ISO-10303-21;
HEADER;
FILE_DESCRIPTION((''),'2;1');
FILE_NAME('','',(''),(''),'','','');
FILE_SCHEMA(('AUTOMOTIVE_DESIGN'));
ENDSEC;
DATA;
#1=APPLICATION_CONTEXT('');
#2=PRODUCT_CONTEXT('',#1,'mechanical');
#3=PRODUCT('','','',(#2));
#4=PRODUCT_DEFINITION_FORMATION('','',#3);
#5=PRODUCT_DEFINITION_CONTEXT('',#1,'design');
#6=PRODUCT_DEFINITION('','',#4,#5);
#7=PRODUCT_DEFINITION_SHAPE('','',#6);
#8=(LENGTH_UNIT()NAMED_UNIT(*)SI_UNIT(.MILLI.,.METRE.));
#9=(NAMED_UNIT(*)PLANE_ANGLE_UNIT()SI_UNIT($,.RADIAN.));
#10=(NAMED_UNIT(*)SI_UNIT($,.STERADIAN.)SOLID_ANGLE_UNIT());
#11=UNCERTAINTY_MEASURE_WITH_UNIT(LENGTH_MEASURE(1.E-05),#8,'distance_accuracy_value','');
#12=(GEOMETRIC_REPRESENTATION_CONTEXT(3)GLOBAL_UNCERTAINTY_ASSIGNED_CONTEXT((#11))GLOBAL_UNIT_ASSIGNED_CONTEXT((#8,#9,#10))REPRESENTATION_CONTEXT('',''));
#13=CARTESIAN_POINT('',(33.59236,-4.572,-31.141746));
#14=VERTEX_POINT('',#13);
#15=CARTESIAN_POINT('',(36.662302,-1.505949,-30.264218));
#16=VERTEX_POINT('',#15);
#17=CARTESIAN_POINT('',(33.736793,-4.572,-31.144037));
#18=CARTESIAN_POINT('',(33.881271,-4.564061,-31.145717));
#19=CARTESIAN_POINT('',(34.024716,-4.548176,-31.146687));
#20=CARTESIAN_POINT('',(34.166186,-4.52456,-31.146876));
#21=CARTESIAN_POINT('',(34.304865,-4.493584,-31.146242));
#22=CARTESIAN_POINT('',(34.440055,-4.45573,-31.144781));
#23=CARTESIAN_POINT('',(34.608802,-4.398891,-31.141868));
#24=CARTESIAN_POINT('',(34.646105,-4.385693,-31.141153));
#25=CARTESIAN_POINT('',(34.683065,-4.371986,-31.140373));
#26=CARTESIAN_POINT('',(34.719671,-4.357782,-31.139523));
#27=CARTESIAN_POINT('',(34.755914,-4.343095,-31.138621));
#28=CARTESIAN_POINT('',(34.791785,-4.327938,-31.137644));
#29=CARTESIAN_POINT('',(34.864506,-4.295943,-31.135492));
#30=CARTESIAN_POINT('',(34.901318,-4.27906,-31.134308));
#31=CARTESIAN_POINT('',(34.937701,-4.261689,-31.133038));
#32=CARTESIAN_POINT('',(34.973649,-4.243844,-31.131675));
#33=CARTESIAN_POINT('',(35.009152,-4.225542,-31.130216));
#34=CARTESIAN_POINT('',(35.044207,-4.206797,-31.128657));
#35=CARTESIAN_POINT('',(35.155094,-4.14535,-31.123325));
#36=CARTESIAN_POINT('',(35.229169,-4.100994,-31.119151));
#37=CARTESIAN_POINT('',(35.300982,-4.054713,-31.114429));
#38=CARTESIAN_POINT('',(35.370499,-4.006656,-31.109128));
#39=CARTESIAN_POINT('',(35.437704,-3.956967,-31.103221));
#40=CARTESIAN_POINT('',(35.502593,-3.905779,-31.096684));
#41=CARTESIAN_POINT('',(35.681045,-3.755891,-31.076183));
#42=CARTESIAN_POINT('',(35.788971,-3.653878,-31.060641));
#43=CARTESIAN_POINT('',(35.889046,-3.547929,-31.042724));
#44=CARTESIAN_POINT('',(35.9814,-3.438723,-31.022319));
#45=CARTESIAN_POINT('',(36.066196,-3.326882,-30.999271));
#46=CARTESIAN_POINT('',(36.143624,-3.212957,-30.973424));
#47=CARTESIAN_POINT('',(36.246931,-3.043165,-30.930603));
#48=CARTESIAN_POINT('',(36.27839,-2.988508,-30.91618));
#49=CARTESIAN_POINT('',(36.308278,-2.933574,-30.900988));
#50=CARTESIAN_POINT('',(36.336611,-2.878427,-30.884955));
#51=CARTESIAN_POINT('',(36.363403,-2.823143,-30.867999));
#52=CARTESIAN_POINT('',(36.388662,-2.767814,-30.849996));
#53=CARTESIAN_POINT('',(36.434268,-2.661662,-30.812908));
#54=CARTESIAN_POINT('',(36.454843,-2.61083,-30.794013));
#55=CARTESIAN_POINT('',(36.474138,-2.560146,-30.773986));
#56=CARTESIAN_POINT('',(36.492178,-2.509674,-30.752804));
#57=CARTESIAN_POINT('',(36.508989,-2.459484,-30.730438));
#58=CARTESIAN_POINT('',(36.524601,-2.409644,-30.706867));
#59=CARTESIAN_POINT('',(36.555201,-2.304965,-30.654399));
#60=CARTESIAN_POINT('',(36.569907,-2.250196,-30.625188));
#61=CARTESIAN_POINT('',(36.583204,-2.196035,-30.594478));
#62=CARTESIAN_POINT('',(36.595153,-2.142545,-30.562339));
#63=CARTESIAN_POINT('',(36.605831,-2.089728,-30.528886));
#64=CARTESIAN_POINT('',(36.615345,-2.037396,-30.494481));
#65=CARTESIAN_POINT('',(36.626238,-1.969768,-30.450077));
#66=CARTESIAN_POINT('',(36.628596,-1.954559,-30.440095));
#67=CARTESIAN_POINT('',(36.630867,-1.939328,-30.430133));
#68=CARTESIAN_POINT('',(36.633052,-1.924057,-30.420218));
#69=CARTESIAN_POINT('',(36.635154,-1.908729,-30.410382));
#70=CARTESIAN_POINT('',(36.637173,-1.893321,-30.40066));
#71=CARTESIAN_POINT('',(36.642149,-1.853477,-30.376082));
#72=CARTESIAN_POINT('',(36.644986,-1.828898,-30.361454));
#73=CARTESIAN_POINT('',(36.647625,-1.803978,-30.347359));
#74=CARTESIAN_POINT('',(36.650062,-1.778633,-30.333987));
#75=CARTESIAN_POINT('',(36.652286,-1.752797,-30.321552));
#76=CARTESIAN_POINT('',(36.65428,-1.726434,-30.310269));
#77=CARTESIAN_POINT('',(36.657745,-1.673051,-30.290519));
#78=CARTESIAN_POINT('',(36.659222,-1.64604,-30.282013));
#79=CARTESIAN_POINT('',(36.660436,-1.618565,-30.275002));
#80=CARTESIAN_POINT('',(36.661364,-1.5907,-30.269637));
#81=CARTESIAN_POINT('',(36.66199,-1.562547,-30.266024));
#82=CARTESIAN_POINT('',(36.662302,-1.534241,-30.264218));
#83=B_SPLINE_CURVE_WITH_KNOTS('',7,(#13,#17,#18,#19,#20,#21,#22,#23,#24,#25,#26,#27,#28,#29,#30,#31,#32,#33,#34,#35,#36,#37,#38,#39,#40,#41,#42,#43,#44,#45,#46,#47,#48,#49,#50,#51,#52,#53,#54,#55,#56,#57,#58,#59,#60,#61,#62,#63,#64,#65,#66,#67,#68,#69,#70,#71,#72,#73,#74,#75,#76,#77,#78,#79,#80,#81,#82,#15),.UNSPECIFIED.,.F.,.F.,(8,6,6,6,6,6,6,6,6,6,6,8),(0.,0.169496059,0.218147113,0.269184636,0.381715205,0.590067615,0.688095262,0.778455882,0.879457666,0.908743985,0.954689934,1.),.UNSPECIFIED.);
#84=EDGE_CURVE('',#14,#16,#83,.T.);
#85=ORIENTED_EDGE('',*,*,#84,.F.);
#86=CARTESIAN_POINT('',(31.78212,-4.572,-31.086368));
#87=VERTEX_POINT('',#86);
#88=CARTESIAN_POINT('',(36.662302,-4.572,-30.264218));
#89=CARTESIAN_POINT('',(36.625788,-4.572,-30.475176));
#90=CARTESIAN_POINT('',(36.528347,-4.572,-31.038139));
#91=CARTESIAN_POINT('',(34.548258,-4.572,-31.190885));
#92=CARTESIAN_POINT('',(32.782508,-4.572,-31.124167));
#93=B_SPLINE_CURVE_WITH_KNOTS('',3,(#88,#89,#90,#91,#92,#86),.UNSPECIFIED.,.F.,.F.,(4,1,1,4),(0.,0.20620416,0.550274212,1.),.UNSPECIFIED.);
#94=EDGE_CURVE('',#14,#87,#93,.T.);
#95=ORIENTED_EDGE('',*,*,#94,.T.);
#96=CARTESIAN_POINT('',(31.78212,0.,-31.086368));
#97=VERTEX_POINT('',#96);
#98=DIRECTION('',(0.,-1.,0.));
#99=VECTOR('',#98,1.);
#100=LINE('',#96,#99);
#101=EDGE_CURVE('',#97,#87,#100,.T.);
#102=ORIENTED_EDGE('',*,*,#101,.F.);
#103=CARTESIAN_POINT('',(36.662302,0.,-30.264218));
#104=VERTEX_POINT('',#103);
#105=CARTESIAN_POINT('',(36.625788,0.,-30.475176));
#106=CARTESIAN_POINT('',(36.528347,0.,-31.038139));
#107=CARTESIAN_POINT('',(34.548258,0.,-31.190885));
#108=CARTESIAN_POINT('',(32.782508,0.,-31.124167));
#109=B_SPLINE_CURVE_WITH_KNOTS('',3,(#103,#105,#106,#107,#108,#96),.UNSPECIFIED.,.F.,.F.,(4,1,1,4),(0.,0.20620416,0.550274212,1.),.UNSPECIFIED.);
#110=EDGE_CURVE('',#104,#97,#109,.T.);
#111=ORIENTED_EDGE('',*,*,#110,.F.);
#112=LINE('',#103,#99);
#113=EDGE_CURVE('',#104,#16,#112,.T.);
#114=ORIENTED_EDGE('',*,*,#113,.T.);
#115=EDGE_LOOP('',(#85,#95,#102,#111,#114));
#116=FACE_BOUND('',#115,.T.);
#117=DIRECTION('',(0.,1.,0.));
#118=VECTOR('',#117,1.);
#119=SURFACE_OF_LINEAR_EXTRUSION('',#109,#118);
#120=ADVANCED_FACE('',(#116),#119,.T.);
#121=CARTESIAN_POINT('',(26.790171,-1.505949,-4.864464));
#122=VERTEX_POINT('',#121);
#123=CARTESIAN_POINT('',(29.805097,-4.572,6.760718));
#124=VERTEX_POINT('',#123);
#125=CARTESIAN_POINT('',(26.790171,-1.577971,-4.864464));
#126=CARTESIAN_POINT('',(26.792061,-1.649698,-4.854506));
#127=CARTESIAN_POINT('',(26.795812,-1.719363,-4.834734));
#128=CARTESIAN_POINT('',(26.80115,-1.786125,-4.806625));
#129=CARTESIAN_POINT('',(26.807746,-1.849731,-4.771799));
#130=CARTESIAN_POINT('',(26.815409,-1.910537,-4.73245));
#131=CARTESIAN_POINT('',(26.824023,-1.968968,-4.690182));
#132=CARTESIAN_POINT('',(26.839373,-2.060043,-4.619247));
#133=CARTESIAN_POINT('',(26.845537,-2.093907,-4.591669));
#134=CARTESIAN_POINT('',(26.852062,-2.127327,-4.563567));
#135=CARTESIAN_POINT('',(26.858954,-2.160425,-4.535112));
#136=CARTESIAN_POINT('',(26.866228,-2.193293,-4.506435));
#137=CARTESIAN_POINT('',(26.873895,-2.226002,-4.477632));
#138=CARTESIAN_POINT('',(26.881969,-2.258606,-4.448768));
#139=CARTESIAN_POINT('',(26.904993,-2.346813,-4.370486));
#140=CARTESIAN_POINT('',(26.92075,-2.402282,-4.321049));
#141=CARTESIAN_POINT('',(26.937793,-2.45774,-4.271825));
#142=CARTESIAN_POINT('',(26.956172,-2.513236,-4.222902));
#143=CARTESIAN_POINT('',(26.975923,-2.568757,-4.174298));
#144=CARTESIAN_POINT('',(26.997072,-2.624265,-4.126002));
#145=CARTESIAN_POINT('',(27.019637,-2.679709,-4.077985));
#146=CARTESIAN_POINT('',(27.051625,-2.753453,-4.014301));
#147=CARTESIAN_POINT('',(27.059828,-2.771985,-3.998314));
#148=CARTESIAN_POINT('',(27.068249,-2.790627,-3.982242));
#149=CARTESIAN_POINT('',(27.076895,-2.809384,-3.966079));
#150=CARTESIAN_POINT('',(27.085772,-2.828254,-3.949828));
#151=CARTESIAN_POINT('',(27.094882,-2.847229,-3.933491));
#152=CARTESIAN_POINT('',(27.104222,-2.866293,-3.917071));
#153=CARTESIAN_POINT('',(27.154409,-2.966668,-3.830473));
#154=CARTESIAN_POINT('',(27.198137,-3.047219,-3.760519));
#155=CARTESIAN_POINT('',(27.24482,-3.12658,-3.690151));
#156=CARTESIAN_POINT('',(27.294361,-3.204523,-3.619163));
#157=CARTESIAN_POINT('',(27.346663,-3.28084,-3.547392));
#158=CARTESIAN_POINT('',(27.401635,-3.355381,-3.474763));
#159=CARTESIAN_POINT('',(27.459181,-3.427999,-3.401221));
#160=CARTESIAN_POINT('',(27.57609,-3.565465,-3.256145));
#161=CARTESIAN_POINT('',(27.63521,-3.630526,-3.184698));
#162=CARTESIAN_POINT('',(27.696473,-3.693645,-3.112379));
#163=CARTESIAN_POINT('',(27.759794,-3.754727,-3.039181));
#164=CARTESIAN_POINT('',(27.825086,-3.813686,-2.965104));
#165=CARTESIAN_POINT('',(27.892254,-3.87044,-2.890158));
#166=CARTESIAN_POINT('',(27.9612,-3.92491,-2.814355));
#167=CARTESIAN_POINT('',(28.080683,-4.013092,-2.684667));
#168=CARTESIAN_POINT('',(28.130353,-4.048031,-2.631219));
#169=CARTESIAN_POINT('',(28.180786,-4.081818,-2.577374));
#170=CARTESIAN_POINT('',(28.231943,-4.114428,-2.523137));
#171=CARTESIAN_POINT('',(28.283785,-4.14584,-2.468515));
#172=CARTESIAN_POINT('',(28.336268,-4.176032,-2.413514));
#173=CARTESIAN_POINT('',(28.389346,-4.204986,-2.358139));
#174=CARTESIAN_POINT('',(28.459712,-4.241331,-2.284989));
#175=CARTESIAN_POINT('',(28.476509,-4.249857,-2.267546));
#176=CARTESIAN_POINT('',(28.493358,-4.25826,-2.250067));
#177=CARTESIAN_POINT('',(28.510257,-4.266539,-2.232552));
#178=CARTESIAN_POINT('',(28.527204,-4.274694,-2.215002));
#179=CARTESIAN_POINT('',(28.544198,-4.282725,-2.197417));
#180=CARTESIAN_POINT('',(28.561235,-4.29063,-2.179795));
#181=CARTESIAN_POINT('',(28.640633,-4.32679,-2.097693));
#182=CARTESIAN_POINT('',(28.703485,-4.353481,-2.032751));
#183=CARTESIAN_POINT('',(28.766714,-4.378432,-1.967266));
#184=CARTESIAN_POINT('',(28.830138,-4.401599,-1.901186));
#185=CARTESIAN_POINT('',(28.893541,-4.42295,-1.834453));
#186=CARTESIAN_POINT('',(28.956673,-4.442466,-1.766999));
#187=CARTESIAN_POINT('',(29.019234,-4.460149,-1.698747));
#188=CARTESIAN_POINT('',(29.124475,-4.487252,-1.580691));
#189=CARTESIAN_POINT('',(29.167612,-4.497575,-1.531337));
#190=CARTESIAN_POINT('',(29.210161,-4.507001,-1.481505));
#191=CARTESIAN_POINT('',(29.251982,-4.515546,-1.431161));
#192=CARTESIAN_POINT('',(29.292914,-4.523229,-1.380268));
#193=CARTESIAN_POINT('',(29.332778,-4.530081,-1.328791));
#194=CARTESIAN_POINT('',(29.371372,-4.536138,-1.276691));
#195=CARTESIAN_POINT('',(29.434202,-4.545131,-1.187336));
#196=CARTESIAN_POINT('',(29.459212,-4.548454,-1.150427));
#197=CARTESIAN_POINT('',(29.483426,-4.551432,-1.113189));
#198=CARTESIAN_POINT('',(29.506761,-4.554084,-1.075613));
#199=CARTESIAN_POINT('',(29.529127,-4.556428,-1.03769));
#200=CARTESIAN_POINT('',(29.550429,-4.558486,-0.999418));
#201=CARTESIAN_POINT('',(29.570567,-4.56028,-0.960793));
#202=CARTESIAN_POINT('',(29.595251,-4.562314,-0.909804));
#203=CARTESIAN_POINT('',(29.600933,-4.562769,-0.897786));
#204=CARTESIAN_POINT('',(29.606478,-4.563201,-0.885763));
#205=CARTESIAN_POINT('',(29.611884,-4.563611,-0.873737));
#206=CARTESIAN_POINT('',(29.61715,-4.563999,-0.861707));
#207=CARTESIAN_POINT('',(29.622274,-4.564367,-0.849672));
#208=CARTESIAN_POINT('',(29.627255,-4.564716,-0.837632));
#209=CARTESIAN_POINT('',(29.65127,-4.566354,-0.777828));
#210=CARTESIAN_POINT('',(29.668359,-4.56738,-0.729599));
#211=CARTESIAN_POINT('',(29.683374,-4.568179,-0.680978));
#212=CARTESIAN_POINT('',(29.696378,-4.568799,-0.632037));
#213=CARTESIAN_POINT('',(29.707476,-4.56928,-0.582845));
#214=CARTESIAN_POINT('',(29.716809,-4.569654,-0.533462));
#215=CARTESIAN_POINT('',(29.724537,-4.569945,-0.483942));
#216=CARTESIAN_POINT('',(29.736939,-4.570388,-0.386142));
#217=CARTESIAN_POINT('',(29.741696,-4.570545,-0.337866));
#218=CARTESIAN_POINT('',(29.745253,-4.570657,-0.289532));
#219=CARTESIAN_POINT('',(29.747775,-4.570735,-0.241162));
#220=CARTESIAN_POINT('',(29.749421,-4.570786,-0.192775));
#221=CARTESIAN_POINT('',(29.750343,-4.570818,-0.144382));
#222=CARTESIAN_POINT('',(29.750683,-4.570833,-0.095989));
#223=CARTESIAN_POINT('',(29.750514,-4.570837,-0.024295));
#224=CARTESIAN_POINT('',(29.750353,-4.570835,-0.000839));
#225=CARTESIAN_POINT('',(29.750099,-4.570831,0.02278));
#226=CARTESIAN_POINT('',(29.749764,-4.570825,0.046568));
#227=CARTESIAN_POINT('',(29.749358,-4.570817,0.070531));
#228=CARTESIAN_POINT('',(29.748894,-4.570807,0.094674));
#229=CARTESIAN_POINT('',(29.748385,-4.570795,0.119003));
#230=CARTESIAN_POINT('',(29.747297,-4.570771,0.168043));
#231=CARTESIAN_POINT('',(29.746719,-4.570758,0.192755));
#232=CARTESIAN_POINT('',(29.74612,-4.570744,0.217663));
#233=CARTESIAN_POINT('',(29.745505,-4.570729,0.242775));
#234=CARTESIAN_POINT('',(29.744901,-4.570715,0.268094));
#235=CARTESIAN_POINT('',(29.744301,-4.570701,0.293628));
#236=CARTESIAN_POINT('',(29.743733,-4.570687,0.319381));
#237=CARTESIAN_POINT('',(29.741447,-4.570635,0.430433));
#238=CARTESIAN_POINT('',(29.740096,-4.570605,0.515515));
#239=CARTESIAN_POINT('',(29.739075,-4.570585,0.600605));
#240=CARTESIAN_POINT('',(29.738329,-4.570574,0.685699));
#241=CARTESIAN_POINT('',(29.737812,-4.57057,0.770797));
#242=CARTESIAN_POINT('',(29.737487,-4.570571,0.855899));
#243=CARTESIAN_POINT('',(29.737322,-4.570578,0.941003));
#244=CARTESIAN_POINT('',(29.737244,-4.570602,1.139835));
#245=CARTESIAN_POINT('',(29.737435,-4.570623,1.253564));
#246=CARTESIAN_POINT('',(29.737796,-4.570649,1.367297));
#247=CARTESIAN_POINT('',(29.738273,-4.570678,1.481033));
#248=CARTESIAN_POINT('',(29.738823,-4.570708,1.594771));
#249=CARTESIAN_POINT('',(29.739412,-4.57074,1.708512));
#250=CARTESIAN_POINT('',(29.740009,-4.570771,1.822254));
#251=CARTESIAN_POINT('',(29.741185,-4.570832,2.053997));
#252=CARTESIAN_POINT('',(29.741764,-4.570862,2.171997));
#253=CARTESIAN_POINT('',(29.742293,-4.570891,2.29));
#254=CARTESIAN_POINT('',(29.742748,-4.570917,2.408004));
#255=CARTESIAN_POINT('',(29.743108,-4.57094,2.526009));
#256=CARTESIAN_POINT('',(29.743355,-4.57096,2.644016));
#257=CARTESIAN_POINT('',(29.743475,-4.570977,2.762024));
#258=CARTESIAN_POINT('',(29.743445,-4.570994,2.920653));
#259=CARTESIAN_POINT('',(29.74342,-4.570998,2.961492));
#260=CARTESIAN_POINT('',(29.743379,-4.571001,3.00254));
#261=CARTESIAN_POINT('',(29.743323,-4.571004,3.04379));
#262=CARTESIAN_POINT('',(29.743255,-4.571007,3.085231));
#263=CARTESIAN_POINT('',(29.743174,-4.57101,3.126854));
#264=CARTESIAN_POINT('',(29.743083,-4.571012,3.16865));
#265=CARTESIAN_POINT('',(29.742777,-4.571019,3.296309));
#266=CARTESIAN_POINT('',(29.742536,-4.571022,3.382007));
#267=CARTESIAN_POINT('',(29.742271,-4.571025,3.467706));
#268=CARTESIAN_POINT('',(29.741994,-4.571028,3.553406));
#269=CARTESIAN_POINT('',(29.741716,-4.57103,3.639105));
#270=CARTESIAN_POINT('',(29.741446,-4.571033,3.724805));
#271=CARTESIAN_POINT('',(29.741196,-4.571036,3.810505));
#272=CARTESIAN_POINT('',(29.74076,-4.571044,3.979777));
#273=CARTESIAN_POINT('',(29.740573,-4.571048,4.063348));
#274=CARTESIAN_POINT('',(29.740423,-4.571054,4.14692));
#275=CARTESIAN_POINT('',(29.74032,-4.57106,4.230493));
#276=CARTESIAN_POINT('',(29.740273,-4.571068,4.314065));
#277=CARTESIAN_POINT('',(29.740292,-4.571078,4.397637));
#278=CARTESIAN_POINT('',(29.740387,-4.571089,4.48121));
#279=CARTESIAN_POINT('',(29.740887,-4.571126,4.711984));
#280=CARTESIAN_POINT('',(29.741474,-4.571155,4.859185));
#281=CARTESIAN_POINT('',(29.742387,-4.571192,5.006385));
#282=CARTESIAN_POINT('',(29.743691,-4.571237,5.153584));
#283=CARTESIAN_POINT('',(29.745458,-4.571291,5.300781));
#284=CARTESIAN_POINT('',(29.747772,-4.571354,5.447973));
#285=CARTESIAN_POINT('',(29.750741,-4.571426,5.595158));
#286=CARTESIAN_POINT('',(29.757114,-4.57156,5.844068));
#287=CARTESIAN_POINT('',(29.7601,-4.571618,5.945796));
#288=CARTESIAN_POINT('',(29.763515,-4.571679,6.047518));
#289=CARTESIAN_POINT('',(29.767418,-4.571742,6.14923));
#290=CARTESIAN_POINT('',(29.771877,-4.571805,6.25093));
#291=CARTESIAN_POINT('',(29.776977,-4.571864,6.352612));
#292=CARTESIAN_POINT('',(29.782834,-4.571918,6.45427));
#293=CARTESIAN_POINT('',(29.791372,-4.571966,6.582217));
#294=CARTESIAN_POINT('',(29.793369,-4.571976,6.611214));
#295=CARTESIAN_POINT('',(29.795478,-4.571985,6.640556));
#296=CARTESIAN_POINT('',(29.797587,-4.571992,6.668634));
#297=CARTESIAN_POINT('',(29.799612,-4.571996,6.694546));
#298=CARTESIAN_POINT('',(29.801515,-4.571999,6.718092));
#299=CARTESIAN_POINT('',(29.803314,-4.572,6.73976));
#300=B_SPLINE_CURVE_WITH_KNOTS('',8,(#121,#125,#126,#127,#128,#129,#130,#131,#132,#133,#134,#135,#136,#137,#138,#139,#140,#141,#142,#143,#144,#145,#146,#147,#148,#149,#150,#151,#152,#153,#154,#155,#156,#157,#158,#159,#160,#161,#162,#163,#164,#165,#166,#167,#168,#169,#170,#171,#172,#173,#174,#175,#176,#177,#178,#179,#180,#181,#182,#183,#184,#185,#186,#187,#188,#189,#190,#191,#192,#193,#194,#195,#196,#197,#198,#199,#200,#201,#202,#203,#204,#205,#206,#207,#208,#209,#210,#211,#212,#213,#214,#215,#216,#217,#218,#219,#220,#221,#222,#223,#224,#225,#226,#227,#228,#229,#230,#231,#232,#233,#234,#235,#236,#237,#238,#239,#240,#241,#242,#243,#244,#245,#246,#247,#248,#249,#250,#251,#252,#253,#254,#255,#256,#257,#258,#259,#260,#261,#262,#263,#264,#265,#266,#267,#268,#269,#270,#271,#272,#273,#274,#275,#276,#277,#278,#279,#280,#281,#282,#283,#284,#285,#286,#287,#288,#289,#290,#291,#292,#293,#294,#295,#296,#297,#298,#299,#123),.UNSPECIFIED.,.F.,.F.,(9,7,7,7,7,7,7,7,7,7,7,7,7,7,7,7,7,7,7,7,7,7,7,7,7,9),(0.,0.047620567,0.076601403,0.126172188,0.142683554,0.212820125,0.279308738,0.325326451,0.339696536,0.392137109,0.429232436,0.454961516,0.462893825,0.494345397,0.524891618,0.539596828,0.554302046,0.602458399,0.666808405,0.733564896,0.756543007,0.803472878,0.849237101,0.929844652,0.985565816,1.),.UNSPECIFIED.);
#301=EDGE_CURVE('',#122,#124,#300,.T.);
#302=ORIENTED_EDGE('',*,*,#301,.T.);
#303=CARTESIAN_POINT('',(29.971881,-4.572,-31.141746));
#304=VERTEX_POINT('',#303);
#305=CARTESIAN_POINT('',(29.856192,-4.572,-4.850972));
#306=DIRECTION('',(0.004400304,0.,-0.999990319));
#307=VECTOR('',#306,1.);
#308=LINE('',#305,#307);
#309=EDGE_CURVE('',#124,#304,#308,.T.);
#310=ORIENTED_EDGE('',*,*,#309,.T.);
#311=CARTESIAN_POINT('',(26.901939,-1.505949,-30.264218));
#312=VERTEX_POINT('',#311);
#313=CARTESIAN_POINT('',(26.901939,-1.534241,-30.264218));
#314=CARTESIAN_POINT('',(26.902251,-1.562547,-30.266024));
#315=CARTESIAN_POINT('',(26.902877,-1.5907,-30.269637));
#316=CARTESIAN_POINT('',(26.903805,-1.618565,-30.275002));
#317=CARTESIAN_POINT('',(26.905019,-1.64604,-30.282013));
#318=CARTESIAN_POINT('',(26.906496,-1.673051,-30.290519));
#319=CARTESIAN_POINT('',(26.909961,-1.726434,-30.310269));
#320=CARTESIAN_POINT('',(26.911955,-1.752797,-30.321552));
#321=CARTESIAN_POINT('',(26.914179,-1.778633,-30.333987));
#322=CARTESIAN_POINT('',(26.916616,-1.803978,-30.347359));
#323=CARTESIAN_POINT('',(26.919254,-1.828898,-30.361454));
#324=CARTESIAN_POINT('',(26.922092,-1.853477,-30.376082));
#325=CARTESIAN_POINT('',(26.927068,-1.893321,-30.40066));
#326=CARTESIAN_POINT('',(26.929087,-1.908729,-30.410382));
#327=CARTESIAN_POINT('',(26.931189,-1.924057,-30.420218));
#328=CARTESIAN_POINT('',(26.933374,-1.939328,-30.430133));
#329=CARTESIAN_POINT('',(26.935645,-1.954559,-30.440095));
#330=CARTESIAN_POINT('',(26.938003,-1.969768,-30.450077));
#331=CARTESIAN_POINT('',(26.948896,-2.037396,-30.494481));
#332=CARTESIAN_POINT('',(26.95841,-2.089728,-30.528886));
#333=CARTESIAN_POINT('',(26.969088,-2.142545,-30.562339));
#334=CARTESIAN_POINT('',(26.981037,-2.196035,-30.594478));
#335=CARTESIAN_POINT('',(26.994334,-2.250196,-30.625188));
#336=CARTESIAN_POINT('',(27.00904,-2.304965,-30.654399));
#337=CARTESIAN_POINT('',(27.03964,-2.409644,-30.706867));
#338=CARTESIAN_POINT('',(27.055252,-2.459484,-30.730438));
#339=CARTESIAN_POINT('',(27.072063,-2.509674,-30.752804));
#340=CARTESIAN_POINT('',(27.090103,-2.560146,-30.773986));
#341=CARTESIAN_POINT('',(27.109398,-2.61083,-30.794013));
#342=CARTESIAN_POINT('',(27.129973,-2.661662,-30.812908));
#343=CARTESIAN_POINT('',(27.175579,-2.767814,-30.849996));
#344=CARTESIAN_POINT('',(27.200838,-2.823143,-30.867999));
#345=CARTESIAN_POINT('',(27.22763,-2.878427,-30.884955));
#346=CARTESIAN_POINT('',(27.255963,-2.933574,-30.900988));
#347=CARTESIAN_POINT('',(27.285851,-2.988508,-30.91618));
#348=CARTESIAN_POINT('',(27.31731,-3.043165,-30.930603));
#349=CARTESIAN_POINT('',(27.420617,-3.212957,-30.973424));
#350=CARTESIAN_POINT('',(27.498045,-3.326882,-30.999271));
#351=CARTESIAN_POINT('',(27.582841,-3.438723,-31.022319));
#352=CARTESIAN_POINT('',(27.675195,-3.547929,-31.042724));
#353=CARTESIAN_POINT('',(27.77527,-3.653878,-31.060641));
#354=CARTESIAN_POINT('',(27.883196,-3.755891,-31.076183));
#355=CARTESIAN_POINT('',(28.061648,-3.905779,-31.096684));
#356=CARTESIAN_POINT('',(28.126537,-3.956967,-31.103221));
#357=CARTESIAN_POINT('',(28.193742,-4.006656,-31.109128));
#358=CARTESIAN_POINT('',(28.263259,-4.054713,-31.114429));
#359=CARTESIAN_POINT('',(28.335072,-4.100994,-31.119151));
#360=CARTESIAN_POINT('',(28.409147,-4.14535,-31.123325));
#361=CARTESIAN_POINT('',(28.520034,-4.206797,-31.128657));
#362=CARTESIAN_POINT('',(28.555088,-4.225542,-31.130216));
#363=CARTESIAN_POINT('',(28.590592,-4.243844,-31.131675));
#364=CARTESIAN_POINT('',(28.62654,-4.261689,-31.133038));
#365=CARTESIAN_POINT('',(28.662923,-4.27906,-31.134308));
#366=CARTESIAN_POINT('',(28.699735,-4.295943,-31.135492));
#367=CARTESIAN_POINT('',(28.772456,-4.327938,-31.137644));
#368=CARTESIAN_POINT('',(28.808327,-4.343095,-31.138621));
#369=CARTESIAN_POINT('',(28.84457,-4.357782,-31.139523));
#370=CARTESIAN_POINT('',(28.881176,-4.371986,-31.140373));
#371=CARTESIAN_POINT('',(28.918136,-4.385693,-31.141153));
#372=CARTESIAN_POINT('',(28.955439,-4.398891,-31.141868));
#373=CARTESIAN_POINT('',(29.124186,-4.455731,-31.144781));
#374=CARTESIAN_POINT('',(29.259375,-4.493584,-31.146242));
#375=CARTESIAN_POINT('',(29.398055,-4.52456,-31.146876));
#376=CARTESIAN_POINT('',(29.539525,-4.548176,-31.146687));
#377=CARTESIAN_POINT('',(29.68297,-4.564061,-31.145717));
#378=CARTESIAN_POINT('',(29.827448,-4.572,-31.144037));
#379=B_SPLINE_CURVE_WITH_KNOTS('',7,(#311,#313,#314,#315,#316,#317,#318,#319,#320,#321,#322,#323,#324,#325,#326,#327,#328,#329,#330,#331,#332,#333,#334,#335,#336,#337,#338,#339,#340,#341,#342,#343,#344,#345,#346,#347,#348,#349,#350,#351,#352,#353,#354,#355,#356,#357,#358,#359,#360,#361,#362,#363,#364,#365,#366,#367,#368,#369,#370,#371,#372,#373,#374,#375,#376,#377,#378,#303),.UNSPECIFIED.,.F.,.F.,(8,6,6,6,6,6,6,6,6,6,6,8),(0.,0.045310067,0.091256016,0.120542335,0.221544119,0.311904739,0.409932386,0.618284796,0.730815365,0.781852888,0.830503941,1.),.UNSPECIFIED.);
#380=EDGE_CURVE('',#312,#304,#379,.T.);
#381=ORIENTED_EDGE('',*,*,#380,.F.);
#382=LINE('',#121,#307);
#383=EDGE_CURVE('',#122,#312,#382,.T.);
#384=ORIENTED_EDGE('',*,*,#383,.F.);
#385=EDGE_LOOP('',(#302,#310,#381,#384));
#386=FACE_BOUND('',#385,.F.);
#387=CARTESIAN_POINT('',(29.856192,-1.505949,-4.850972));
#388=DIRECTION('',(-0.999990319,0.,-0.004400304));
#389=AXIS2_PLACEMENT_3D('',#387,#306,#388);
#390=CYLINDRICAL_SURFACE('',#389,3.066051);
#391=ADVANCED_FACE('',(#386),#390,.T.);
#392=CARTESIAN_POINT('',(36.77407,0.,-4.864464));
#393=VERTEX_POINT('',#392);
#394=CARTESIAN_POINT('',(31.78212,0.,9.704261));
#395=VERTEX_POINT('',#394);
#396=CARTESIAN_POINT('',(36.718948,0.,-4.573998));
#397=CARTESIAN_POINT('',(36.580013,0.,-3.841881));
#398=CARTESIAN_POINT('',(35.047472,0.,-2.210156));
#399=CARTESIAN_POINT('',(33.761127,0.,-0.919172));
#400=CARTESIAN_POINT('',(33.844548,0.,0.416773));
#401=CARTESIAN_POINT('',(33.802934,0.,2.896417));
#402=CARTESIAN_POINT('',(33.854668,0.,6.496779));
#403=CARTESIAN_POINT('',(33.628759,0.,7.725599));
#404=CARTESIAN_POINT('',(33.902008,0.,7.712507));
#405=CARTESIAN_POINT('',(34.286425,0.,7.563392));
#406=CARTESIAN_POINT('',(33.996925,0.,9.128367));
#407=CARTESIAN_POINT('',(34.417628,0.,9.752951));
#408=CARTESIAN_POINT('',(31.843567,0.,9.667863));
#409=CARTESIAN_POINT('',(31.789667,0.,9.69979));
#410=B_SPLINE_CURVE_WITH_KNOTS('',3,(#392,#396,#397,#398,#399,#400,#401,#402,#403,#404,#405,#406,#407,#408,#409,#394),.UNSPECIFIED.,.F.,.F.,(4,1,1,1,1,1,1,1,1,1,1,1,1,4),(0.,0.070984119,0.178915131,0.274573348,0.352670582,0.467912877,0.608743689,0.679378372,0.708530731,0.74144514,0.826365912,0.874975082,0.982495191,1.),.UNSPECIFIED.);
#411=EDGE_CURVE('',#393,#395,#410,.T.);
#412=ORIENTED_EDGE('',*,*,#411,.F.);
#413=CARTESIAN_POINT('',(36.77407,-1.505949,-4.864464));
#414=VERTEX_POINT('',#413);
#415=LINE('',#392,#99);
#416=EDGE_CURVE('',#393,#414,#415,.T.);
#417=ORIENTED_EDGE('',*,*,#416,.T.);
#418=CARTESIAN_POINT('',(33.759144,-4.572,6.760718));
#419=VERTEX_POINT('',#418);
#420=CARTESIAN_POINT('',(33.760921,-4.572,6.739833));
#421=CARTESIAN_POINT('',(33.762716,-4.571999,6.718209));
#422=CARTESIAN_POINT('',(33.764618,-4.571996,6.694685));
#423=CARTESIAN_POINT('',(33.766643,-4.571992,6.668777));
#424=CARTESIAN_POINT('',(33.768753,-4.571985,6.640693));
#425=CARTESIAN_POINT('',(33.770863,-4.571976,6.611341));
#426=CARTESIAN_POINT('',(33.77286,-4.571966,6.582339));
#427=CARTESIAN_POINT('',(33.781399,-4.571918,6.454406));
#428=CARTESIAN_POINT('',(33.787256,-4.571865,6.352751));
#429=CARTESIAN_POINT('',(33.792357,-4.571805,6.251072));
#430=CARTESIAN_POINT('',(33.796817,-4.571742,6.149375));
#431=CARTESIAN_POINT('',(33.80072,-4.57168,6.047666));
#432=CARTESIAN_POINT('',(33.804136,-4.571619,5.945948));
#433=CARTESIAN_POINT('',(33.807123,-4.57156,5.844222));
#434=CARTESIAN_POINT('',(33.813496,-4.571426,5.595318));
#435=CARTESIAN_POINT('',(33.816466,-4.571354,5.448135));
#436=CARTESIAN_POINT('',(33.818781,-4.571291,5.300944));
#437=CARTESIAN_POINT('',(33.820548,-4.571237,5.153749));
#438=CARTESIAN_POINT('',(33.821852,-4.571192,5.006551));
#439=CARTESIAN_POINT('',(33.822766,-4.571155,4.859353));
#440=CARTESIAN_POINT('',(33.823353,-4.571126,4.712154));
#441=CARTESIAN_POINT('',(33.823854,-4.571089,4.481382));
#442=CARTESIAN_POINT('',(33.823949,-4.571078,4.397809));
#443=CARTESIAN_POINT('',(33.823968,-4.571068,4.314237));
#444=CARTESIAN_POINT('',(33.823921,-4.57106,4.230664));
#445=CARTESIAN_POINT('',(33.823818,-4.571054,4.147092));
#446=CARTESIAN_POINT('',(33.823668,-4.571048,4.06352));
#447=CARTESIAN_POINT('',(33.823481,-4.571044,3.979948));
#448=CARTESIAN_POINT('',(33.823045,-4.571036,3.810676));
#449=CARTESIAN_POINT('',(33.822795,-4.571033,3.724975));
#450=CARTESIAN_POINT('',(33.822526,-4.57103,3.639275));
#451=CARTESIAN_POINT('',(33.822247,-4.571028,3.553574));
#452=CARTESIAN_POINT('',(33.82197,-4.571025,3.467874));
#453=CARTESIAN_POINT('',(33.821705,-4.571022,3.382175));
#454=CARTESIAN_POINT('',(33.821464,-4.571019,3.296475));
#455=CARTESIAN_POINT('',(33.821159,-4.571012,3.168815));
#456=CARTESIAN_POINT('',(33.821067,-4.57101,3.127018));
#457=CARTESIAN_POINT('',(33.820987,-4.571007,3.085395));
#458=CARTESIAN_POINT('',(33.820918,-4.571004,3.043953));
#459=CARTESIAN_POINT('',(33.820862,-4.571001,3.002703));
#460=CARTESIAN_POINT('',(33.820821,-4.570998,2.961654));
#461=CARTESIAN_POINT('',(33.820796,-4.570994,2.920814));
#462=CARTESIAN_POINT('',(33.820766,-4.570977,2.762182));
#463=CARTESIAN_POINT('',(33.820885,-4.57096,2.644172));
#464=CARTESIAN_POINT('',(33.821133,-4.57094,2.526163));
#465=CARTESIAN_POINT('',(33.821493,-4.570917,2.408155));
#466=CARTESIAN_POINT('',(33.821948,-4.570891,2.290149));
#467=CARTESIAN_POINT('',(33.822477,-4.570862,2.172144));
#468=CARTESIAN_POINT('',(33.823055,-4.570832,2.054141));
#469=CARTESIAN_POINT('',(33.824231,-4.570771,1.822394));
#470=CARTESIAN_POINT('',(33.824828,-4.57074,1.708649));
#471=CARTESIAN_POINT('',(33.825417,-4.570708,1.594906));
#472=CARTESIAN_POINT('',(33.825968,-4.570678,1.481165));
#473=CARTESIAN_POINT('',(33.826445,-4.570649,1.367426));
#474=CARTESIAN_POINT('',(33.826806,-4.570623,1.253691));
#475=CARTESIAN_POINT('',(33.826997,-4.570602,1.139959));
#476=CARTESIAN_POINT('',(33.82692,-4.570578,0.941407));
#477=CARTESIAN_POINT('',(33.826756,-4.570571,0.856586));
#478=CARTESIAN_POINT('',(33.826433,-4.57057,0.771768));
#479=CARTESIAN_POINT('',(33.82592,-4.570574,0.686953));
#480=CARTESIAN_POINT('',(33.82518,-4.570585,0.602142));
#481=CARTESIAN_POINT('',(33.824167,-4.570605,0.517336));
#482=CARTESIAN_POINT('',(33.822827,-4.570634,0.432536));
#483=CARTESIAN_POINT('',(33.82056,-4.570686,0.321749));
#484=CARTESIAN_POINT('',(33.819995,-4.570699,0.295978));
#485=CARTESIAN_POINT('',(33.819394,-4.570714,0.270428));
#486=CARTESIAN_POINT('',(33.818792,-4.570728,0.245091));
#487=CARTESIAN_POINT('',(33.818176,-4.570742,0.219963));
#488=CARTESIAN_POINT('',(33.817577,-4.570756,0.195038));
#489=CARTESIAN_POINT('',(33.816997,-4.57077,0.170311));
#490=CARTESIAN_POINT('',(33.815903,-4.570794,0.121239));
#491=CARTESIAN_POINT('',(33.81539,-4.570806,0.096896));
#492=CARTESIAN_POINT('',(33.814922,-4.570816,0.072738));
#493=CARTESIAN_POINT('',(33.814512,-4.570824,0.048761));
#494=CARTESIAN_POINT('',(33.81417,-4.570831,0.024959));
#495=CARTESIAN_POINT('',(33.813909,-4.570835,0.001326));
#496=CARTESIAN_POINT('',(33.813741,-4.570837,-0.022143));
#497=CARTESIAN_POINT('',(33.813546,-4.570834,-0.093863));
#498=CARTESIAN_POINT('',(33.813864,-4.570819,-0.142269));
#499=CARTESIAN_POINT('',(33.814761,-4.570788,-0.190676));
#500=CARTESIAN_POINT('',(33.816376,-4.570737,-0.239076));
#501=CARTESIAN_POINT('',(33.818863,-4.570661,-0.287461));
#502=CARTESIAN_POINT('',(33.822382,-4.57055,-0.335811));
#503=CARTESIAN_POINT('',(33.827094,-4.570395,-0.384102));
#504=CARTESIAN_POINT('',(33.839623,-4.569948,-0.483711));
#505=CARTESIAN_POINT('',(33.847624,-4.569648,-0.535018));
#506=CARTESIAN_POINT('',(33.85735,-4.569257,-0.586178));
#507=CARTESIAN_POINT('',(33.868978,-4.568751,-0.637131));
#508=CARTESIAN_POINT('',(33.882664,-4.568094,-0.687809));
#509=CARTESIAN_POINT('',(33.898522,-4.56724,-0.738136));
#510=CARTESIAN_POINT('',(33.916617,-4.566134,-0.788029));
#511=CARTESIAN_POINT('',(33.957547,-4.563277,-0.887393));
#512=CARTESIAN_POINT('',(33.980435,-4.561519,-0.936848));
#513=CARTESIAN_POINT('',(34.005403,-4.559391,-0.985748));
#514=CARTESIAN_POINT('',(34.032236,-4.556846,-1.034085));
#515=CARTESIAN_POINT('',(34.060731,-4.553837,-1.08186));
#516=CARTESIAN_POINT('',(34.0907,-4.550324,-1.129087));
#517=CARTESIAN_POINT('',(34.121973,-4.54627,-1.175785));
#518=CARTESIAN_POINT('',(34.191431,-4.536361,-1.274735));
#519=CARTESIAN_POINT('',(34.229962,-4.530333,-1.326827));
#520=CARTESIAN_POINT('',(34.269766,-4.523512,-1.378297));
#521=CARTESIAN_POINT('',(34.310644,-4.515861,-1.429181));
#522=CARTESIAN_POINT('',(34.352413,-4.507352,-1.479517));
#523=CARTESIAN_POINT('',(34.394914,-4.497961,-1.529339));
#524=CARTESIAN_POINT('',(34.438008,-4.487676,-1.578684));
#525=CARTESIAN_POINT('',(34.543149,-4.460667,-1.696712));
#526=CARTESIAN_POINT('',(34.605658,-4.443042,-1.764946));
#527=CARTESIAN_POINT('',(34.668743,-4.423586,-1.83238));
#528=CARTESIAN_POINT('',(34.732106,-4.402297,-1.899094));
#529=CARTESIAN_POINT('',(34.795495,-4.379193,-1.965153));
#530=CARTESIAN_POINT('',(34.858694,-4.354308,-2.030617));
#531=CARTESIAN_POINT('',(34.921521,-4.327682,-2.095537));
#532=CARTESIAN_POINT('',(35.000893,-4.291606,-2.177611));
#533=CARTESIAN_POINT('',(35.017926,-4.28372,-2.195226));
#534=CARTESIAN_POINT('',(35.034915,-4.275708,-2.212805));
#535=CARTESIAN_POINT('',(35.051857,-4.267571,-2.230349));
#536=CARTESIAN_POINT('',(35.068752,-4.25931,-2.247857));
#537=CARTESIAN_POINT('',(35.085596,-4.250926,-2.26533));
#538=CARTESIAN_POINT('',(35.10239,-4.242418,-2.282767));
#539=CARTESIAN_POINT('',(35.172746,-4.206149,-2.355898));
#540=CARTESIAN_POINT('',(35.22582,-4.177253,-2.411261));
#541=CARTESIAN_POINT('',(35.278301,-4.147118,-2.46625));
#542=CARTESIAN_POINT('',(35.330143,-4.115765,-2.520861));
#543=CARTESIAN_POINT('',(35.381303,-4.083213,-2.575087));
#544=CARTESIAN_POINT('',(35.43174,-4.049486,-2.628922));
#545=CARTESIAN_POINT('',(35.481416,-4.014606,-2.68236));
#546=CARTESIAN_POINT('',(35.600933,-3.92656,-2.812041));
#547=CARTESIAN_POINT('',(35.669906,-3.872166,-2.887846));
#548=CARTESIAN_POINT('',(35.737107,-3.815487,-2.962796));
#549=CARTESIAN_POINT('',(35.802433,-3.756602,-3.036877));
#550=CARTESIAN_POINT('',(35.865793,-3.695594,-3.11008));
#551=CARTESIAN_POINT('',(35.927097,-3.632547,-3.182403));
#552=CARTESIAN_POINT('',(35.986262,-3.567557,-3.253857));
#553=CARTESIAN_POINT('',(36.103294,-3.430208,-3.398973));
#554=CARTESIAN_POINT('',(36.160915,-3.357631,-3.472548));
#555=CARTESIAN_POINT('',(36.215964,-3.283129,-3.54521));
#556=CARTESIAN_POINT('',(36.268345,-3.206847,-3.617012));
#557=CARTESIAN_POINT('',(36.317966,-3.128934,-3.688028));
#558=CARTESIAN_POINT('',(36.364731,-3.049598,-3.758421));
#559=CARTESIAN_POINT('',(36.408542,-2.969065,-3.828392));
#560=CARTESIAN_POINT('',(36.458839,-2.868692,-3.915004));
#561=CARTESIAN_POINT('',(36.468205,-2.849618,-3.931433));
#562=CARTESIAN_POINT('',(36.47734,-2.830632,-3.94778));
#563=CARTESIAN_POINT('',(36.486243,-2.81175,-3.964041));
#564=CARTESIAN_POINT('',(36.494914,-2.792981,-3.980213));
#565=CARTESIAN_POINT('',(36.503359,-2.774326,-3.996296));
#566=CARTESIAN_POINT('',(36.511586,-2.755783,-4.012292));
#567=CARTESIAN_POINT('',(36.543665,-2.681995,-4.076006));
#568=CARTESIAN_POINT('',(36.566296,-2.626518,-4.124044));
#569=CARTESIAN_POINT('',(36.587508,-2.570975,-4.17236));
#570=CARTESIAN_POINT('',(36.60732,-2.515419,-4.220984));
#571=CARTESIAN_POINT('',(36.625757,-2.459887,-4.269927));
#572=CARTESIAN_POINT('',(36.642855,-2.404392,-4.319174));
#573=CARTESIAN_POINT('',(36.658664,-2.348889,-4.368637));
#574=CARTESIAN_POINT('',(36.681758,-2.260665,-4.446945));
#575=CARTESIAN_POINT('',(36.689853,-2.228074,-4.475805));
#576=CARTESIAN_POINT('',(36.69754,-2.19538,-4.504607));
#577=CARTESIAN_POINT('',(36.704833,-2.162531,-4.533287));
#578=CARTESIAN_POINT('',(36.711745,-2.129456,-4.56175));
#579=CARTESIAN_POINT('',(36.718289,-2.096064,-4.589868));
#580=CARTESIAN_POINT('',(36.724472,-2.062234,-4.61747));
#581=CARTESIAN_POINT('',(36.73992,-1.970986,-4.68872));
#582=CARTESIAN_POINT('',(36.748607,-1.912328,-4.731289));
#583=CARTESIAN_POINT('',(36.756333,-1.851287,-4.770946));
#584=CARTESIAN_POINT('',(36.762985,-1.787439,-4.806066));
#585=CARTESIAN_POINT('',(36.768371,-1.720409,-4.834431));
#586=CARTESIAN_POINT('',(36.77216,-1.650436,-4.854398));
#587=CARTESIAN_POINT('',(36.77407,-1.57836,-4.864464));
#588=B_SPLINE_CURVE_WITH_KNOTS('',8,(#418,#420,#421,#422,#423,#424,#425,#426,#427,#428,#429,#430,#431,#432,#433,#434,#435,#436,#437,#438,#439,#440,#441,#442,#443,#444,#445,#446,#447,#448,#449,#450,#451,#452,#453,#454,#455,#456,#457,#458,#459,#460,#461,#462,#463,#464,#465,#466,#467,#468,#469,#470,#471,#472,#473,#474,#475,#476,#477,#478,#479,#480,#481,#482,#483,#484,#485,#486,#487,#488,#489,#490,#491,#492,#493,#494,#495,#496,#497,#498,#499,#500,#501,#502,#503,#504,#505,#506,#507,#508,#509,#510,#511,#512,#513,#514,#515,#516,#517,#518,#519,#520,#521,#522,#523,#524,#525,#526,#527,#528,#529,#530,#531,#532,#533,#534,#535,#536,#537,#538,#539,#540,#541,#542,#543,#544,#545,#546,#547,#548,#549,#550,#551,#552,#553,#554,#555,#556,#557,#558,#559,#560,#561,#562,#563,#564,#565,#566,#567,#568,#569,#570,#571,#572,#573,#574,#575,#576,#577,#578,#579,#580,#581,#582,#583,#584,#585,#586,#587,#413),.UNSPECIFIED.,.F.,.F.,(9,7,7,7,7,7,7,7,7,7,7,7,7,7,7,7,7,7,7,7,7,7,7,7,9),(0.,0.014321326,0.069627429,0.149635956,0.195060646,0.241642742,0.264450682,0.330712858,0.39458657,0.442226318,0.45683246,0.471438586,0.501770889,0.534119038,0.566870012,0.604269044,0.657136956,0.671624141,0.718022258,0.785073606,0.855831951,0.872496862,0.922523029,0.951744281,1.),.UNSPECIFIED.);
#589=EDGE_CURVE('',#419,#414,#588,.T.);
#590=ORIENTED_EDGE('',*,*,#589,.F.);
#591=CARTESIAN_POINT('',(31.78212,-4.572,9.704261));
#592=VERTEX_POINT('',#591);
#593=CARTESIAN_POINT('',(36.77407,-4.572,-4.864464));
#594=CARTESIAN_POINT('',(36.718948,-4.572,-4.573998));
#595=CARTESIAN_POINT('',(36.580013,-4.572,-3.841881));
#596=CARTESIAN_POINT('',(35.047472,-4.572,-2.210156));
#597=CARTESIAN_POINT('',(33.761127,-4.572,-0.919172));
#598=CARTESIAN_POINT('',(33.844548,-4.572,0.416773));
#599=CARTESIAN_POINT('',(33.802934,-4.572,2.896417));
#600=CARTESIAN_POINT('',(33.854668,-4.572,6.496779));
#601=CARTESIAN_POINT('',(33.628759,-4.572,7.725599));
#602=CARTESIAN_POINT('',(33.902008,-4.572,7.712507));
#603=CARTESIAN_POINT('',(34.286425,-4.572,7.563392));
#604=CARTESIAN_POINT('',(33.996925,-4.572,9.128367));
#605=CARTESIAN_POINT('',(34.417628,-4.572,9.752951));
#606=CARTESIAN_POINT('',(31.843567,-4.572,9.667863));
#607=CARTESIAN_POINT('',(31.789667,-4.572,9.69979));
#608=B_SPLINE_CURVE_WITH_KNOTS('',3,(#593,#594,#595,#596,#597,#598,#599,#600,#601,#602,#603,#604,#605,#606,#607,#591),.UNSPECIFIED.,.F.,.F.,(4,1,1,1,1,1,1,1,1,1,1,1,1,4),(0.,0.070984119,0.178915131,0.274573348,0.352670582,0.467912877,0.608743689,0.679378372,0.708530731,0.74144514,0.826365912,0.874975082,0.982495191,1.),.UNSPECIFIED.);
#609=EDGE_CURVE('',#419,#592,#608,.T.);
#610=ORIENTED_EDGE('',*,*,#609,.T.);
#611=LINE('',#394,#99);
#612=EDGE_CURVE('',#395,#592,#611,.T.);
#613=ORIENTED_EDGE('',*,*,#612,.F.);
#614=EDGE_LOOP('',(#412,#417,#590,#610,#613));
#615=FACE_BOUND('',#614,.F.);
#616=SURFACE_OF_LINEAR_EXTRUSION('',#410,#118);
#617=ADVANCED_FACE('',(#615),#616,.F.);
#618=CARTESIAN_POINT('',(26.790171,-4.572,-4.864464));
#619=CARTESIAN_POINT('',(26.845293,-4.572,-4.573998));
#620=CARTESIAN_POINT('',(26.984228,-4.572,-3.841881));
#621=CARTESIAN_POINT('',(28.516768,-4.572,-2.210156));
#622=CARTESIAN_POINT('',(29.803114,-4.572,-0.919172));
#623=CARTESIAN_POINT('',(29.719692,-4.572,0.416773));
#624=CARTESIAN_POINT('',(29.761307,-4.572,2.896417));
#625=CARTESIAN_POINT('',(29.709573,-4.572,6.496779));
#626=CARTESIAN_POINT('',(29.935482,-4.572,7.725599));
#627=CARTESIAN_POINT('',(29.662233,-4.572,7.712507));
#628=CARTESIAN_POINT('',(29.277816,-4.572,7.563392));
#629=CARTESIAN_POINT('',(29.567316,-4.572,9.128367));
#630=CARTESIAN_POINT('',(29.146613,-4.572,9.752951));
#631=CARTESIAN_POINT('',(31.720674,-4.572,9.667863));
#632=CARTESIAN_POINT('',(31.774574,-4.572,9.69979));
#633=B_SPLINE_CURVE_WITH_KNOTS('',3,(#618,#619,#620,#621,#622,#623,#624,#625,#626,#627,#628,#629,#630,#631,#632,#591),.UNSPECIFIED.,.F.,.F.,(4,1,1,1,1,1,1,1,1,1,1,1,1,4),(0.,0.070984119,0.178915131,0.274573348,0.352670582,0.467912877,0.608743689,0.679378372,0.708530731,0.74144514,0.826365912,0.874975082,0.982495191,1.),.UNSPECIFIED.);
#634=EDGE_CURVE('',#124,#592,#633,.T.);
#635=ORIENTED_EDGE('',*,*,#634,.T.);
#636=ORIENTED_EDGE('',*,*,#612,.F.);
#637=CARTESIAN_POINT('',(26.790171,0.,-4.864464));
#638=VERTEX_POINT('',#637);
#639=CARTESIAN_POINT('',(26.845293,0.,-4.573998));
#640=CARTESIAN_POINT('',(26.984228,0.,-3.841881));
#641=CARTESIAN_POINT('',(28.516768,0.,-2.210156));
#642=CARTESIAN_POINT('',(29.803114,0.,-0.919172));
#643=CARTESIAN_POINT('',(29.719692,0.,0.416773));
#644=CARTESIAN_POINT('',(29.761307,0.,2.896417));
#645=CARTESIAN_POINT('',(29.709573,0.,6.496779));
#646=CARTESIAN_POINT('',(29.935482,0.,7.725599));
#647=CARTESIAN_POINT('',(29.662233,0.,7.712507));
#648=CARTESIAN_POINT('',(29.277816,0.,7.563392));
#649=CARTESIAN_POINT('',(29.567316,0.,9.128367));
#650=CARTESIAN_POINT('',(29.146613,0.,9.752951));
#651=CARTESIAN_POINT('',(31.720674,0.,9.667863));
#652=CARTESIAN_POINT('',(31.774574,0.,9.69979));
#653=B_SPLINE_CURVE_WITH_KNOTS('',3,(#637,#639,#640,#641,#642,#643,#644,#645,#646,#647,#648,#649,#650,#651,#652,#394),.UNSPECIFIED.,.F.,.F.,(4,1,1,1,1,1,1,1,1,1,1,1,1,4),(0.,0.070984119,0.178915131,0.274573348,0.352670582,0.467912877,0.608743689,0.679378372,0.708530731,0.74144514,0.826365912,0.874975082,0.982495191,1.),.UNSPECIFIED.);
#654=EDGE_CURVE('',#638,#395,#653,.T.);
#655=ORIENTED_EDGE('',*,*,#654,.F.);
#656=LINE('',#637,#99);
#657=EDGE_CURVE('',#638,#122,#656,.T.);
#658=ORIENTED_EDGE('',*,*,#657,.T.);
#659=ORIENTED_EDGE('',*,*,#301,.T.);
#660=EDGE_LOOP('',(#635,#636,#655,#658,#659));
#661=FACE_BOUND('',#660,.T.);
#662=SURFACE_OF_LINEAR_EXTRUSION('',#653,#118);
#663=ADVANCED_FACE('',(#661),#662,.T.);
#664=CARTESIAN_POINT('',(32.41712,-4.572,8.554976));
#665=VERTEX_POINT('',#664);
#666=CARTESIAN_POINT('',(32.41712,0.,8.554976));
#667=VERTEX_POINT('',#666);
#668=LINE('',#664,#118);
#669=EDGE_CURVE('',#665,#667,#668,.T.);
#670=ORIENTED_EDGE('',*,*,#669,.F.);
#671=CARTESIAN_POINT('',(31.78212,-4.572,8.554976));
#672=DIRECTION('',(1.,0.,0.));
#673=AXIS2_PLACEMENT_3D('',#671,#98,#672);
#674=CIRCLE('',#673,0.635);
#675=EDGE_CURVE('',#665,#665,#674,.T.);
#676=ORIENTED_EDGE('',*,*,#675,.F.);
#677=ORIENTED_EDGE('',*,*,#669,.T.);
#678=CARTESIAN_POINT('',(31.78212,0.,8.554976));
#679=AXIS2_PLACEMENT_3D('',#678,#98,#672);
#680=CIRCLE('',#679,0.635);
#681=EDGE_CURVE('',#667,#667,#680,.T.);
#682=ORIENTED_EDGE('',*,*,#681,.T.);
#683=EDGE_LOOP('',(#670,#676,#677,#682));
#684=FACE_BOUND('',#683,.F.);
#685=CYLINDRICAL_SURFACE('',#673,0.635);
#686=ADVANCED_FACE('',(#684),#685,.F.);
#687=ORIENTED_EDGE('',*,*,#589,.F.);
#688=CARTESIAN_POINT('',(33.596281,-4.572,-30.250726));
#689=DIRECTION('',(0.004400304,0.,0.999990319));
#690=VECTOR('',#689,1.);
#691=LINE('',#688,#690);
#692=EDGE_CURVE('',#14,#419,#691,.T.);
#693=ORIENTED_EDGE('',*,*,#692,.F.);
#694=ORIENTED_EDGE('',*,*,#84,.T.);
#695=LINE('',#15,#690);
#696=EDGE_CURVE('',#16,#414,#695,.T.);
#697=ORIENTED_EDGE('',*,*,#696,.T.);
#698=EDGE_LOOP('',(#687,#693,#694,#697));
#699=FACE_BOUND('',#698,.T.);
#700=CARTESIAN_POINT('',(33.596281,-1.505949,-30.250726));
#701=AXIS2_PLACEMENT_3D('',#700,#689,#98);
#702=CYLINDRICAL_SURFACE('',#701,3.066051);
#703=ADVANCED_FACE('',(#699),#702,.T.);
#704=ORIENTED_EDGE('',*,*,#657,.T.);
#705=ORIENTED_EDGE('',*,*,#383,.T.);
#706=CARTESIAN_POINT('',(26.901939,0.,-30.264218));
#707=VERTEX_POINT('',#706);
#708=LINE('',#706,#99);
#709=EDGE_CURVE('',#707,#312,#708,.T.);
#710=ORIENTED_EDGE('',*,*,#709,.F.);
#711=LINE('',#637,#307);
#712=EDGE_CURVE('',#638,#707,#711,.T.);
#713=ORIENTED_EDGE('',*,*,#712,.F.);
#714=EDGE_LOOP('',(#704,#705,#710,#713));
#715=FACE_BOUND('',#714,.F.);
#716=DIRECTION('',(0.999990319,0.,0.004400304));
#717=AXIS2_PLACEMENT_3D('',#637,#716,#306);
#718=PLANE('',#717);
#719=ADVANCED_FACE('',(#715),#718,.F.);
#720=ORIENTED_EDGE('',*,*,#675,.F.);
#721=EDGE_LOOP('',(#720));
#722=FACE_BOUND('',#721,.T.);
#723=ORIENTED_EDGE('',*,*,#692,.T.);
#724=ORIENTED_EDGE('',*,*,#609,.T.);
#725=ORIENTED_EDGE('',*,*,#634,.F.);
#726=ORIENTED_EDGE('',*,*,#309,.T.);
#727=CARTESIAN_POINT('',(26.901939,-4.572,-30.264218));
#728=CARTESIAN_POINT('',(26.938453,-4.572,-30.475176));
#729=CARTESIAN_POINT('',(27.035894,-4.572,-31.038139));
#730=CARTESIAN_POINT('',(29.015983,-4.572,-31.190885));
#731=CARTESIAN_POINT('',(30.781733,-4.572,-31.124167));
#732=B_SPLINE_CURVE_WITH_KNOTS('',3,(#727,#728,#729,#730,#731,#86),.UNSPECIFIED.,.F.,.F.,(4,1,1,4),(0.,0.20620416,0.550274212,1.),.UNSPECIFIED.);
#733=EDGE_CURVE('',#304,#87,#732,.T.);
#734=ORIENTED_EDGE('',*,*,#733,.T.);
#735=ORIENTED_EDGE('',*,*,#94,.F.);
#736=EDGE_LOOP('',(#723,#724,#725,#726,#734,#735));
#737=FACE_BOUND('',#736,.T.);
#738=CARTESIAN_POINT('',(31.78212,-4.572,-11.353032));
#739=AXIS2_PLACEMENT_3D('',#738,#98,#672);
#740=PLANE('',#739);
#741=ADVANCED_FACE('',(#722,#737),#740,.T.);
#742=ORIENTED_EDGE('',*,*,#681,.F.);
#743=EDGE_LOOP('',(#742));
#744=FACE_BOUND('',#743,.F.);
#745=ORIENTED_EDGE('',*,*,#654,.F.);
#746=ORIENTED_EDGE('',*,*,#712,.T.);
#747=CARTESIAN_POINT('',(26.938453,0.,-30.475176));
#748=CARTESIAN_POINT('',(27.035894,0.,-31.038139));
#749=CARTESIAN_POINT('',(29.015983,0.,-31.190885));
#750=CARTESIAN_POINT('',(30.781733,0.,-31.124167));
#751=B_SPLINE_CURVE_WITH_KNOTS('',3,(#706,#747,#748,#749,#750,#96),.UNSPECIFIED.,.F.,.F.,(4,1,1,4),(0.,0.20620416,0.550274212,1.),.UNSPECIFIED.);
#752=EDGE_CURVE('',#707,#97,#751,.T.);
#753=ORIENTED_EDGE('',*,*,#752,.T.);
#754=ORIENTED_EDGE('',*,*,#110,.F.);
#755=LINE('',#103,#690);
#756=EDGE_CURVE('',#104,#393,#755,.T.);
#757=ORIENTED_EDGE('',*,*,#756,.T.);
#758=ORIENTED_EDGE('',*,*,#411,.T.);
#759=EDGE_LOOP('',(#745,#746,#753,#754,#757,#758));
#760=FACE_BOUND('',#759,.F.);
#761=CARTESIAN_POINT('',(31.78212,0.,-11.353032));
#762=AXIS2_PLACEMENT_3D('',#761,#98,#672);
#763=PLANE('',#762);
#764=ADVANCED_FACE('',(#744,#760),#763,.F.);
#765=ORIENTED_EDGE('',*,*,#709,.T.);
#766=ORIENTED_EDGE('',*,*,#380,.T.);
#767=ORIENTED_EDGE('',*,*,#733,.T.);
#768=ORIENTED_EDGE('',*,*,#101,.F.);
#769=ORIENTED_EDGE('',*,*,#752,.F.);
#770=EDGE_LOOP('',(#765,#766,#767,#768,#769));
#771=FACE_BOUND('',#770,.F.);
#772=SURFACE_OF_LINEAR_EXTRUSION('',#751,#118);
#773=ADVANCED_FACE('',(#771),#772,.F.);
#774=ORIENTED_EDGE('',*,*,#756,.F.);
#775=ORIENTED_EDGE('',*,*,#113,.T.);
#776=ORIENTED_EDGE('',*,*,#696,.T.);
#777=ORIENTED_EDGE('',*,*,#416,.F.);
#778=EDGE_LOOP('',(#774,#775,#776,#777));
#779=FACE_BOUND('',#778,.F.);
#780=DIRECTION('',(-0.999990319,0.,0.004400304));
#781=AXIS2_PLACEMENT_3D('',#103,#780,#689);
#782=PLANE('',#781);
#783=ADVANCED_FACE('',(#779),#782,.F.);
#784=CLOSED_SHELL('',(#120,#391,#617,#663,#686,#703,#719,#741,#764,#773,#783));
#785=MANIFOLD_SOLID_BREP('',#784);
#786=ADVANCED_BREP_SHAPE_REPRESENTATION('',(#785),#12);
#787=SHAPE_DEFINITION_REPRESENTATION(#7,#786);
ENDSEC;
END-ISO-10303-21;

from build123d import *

# Parameters (mm, degrees)
F1_DEPTH = 4.572
F2_R     = 0.635
F3_DEPTH = 41.9608
F4_R     = 3.0660512242


with BuildPart() as f1:
    # F0 (on Front) → F1 (new body)
    with BuildSketch(Plane.XZ):
        with BuildLine():
            Line((26.7901708476, -4.8644637366), (26.9019385814, -30.2642178294))
            add(Edge.make_bspline(
                [(26.9019385814, -30.2642178294), (26.9384527432, -30.4751764994), (27.0358940447, -31.0381385479), (29.0159832128, -31.1908845954), (30.7817331576, -31.1241672108), (31.7821204662, -31.0863684132)],
                knots=[0, 0, 0, 0, 0.2062041595, 0.5502742125, 1, 1, 1, 1], degree=3))
            add(Edge.make_bspline(
                [(36.6623023511, -30.2642178294), (36.6257881892, -30.4751764994), (36.5283468878, -31.0381385479), (34.5482577196, -31.1908845954), (32.7825077748, -31.1241672108), (31.7821204662, -31.0863684132)],
                knots=[0, 0, 0, 0, 0.2062041595, 0.5502742125, 1, 1, 1, 1], degree=3))
            Line((36.6623023511, -30.2642178294), (36.7740700849, -4.8644637366))
            add(Edge.make_bspline(
                [(36.7740700849, -4.8644637366), (36.7189478547, -4.5739981562), (36.5800125386, -3.8418810576), (35.0474724471, -2.2101557218), (33.7611271924, -0.9191716813), (33.8445484803, 0.4167730638), (33.8029339925, 2.8964171169), (33.8546681833, 6.4967790083), (33.6287587118, 7.7255992879), (33.9020075526, 7.7125070563), (34.2864249894, 7.5633916931), (33.9969245542, 9.1283666784), (34.417628171, 9.752950588), (31.8435673036, 9.667862763), (31.7896670683, 9.6997904454), (31.7821204662, 9.704260658)],
                knots=[0, 0, 0, 0, 0.0709841192, 0.1789151312, 0.274573348, 0.3526705822, 0.4679128773, 0.6087436889, 0.6793783724, 0.7085307305, 0.7414451398, 0.8263659124, 0.8749750817, 0.9824951914, 1, 1, 1, 1], degree=3))
            add(Edge.make_bspline(
                [(26.7901708476, -4.8644637366), (26.8452930777, -4.5739981562), (26.9842283938, -3.8418810576), (28.5167684853, -2.2101557218), (29.80311374, -0.9191716813), (29.7196924521, 0.4167730638), (29.7613069399, 2.8964171169), (29.7095727492, 6.4967790083), (29.9354822207, 7.7255992879), (29.6622333799, 7.7125070563), (29.2778159431, 7.5633916931), (29.5673163782, 9.1283666784), (29.1466127615, 9.752950588), (31.7206736288, 9.667862763), (31.7745738642, 9.6997904454), (31.7821204662, 9.704260658)],
                knots=[0, 0, 0, 0, 0.0709841192, 0.1789151312, 0.274573348, 0.3526705822, 0.4679128773, 0.6087436889, 0.6793783724, 0.7085307305, 0.7414451398, 0.8263659124, 0.8749750817, 0.9824951914, 1, 1, 1, 1], degree=3))
        make_face()
    extrude(amount=F1_DEPTH)

    # F2 (on face) → F3 (cut)
    with BuildSketch(Plane.XZ.offset(4.572)):
        with Locations((31.7821204662, 8.5549756579)):
            Circle(F2_R)
    extrude(amount=-F3_DEPTH, mode=Mode.SUBTRACT)

    # F4
    f4_edges = [f1.edges().sort_by_distance(p)[0] for p in [
        (36.718186, -4.572, -17.564341),
        (26.846055, -4.572, -17.564341),
    ]]
    fillet(f4_edges, radius=F4_R)


solid = f1.part
